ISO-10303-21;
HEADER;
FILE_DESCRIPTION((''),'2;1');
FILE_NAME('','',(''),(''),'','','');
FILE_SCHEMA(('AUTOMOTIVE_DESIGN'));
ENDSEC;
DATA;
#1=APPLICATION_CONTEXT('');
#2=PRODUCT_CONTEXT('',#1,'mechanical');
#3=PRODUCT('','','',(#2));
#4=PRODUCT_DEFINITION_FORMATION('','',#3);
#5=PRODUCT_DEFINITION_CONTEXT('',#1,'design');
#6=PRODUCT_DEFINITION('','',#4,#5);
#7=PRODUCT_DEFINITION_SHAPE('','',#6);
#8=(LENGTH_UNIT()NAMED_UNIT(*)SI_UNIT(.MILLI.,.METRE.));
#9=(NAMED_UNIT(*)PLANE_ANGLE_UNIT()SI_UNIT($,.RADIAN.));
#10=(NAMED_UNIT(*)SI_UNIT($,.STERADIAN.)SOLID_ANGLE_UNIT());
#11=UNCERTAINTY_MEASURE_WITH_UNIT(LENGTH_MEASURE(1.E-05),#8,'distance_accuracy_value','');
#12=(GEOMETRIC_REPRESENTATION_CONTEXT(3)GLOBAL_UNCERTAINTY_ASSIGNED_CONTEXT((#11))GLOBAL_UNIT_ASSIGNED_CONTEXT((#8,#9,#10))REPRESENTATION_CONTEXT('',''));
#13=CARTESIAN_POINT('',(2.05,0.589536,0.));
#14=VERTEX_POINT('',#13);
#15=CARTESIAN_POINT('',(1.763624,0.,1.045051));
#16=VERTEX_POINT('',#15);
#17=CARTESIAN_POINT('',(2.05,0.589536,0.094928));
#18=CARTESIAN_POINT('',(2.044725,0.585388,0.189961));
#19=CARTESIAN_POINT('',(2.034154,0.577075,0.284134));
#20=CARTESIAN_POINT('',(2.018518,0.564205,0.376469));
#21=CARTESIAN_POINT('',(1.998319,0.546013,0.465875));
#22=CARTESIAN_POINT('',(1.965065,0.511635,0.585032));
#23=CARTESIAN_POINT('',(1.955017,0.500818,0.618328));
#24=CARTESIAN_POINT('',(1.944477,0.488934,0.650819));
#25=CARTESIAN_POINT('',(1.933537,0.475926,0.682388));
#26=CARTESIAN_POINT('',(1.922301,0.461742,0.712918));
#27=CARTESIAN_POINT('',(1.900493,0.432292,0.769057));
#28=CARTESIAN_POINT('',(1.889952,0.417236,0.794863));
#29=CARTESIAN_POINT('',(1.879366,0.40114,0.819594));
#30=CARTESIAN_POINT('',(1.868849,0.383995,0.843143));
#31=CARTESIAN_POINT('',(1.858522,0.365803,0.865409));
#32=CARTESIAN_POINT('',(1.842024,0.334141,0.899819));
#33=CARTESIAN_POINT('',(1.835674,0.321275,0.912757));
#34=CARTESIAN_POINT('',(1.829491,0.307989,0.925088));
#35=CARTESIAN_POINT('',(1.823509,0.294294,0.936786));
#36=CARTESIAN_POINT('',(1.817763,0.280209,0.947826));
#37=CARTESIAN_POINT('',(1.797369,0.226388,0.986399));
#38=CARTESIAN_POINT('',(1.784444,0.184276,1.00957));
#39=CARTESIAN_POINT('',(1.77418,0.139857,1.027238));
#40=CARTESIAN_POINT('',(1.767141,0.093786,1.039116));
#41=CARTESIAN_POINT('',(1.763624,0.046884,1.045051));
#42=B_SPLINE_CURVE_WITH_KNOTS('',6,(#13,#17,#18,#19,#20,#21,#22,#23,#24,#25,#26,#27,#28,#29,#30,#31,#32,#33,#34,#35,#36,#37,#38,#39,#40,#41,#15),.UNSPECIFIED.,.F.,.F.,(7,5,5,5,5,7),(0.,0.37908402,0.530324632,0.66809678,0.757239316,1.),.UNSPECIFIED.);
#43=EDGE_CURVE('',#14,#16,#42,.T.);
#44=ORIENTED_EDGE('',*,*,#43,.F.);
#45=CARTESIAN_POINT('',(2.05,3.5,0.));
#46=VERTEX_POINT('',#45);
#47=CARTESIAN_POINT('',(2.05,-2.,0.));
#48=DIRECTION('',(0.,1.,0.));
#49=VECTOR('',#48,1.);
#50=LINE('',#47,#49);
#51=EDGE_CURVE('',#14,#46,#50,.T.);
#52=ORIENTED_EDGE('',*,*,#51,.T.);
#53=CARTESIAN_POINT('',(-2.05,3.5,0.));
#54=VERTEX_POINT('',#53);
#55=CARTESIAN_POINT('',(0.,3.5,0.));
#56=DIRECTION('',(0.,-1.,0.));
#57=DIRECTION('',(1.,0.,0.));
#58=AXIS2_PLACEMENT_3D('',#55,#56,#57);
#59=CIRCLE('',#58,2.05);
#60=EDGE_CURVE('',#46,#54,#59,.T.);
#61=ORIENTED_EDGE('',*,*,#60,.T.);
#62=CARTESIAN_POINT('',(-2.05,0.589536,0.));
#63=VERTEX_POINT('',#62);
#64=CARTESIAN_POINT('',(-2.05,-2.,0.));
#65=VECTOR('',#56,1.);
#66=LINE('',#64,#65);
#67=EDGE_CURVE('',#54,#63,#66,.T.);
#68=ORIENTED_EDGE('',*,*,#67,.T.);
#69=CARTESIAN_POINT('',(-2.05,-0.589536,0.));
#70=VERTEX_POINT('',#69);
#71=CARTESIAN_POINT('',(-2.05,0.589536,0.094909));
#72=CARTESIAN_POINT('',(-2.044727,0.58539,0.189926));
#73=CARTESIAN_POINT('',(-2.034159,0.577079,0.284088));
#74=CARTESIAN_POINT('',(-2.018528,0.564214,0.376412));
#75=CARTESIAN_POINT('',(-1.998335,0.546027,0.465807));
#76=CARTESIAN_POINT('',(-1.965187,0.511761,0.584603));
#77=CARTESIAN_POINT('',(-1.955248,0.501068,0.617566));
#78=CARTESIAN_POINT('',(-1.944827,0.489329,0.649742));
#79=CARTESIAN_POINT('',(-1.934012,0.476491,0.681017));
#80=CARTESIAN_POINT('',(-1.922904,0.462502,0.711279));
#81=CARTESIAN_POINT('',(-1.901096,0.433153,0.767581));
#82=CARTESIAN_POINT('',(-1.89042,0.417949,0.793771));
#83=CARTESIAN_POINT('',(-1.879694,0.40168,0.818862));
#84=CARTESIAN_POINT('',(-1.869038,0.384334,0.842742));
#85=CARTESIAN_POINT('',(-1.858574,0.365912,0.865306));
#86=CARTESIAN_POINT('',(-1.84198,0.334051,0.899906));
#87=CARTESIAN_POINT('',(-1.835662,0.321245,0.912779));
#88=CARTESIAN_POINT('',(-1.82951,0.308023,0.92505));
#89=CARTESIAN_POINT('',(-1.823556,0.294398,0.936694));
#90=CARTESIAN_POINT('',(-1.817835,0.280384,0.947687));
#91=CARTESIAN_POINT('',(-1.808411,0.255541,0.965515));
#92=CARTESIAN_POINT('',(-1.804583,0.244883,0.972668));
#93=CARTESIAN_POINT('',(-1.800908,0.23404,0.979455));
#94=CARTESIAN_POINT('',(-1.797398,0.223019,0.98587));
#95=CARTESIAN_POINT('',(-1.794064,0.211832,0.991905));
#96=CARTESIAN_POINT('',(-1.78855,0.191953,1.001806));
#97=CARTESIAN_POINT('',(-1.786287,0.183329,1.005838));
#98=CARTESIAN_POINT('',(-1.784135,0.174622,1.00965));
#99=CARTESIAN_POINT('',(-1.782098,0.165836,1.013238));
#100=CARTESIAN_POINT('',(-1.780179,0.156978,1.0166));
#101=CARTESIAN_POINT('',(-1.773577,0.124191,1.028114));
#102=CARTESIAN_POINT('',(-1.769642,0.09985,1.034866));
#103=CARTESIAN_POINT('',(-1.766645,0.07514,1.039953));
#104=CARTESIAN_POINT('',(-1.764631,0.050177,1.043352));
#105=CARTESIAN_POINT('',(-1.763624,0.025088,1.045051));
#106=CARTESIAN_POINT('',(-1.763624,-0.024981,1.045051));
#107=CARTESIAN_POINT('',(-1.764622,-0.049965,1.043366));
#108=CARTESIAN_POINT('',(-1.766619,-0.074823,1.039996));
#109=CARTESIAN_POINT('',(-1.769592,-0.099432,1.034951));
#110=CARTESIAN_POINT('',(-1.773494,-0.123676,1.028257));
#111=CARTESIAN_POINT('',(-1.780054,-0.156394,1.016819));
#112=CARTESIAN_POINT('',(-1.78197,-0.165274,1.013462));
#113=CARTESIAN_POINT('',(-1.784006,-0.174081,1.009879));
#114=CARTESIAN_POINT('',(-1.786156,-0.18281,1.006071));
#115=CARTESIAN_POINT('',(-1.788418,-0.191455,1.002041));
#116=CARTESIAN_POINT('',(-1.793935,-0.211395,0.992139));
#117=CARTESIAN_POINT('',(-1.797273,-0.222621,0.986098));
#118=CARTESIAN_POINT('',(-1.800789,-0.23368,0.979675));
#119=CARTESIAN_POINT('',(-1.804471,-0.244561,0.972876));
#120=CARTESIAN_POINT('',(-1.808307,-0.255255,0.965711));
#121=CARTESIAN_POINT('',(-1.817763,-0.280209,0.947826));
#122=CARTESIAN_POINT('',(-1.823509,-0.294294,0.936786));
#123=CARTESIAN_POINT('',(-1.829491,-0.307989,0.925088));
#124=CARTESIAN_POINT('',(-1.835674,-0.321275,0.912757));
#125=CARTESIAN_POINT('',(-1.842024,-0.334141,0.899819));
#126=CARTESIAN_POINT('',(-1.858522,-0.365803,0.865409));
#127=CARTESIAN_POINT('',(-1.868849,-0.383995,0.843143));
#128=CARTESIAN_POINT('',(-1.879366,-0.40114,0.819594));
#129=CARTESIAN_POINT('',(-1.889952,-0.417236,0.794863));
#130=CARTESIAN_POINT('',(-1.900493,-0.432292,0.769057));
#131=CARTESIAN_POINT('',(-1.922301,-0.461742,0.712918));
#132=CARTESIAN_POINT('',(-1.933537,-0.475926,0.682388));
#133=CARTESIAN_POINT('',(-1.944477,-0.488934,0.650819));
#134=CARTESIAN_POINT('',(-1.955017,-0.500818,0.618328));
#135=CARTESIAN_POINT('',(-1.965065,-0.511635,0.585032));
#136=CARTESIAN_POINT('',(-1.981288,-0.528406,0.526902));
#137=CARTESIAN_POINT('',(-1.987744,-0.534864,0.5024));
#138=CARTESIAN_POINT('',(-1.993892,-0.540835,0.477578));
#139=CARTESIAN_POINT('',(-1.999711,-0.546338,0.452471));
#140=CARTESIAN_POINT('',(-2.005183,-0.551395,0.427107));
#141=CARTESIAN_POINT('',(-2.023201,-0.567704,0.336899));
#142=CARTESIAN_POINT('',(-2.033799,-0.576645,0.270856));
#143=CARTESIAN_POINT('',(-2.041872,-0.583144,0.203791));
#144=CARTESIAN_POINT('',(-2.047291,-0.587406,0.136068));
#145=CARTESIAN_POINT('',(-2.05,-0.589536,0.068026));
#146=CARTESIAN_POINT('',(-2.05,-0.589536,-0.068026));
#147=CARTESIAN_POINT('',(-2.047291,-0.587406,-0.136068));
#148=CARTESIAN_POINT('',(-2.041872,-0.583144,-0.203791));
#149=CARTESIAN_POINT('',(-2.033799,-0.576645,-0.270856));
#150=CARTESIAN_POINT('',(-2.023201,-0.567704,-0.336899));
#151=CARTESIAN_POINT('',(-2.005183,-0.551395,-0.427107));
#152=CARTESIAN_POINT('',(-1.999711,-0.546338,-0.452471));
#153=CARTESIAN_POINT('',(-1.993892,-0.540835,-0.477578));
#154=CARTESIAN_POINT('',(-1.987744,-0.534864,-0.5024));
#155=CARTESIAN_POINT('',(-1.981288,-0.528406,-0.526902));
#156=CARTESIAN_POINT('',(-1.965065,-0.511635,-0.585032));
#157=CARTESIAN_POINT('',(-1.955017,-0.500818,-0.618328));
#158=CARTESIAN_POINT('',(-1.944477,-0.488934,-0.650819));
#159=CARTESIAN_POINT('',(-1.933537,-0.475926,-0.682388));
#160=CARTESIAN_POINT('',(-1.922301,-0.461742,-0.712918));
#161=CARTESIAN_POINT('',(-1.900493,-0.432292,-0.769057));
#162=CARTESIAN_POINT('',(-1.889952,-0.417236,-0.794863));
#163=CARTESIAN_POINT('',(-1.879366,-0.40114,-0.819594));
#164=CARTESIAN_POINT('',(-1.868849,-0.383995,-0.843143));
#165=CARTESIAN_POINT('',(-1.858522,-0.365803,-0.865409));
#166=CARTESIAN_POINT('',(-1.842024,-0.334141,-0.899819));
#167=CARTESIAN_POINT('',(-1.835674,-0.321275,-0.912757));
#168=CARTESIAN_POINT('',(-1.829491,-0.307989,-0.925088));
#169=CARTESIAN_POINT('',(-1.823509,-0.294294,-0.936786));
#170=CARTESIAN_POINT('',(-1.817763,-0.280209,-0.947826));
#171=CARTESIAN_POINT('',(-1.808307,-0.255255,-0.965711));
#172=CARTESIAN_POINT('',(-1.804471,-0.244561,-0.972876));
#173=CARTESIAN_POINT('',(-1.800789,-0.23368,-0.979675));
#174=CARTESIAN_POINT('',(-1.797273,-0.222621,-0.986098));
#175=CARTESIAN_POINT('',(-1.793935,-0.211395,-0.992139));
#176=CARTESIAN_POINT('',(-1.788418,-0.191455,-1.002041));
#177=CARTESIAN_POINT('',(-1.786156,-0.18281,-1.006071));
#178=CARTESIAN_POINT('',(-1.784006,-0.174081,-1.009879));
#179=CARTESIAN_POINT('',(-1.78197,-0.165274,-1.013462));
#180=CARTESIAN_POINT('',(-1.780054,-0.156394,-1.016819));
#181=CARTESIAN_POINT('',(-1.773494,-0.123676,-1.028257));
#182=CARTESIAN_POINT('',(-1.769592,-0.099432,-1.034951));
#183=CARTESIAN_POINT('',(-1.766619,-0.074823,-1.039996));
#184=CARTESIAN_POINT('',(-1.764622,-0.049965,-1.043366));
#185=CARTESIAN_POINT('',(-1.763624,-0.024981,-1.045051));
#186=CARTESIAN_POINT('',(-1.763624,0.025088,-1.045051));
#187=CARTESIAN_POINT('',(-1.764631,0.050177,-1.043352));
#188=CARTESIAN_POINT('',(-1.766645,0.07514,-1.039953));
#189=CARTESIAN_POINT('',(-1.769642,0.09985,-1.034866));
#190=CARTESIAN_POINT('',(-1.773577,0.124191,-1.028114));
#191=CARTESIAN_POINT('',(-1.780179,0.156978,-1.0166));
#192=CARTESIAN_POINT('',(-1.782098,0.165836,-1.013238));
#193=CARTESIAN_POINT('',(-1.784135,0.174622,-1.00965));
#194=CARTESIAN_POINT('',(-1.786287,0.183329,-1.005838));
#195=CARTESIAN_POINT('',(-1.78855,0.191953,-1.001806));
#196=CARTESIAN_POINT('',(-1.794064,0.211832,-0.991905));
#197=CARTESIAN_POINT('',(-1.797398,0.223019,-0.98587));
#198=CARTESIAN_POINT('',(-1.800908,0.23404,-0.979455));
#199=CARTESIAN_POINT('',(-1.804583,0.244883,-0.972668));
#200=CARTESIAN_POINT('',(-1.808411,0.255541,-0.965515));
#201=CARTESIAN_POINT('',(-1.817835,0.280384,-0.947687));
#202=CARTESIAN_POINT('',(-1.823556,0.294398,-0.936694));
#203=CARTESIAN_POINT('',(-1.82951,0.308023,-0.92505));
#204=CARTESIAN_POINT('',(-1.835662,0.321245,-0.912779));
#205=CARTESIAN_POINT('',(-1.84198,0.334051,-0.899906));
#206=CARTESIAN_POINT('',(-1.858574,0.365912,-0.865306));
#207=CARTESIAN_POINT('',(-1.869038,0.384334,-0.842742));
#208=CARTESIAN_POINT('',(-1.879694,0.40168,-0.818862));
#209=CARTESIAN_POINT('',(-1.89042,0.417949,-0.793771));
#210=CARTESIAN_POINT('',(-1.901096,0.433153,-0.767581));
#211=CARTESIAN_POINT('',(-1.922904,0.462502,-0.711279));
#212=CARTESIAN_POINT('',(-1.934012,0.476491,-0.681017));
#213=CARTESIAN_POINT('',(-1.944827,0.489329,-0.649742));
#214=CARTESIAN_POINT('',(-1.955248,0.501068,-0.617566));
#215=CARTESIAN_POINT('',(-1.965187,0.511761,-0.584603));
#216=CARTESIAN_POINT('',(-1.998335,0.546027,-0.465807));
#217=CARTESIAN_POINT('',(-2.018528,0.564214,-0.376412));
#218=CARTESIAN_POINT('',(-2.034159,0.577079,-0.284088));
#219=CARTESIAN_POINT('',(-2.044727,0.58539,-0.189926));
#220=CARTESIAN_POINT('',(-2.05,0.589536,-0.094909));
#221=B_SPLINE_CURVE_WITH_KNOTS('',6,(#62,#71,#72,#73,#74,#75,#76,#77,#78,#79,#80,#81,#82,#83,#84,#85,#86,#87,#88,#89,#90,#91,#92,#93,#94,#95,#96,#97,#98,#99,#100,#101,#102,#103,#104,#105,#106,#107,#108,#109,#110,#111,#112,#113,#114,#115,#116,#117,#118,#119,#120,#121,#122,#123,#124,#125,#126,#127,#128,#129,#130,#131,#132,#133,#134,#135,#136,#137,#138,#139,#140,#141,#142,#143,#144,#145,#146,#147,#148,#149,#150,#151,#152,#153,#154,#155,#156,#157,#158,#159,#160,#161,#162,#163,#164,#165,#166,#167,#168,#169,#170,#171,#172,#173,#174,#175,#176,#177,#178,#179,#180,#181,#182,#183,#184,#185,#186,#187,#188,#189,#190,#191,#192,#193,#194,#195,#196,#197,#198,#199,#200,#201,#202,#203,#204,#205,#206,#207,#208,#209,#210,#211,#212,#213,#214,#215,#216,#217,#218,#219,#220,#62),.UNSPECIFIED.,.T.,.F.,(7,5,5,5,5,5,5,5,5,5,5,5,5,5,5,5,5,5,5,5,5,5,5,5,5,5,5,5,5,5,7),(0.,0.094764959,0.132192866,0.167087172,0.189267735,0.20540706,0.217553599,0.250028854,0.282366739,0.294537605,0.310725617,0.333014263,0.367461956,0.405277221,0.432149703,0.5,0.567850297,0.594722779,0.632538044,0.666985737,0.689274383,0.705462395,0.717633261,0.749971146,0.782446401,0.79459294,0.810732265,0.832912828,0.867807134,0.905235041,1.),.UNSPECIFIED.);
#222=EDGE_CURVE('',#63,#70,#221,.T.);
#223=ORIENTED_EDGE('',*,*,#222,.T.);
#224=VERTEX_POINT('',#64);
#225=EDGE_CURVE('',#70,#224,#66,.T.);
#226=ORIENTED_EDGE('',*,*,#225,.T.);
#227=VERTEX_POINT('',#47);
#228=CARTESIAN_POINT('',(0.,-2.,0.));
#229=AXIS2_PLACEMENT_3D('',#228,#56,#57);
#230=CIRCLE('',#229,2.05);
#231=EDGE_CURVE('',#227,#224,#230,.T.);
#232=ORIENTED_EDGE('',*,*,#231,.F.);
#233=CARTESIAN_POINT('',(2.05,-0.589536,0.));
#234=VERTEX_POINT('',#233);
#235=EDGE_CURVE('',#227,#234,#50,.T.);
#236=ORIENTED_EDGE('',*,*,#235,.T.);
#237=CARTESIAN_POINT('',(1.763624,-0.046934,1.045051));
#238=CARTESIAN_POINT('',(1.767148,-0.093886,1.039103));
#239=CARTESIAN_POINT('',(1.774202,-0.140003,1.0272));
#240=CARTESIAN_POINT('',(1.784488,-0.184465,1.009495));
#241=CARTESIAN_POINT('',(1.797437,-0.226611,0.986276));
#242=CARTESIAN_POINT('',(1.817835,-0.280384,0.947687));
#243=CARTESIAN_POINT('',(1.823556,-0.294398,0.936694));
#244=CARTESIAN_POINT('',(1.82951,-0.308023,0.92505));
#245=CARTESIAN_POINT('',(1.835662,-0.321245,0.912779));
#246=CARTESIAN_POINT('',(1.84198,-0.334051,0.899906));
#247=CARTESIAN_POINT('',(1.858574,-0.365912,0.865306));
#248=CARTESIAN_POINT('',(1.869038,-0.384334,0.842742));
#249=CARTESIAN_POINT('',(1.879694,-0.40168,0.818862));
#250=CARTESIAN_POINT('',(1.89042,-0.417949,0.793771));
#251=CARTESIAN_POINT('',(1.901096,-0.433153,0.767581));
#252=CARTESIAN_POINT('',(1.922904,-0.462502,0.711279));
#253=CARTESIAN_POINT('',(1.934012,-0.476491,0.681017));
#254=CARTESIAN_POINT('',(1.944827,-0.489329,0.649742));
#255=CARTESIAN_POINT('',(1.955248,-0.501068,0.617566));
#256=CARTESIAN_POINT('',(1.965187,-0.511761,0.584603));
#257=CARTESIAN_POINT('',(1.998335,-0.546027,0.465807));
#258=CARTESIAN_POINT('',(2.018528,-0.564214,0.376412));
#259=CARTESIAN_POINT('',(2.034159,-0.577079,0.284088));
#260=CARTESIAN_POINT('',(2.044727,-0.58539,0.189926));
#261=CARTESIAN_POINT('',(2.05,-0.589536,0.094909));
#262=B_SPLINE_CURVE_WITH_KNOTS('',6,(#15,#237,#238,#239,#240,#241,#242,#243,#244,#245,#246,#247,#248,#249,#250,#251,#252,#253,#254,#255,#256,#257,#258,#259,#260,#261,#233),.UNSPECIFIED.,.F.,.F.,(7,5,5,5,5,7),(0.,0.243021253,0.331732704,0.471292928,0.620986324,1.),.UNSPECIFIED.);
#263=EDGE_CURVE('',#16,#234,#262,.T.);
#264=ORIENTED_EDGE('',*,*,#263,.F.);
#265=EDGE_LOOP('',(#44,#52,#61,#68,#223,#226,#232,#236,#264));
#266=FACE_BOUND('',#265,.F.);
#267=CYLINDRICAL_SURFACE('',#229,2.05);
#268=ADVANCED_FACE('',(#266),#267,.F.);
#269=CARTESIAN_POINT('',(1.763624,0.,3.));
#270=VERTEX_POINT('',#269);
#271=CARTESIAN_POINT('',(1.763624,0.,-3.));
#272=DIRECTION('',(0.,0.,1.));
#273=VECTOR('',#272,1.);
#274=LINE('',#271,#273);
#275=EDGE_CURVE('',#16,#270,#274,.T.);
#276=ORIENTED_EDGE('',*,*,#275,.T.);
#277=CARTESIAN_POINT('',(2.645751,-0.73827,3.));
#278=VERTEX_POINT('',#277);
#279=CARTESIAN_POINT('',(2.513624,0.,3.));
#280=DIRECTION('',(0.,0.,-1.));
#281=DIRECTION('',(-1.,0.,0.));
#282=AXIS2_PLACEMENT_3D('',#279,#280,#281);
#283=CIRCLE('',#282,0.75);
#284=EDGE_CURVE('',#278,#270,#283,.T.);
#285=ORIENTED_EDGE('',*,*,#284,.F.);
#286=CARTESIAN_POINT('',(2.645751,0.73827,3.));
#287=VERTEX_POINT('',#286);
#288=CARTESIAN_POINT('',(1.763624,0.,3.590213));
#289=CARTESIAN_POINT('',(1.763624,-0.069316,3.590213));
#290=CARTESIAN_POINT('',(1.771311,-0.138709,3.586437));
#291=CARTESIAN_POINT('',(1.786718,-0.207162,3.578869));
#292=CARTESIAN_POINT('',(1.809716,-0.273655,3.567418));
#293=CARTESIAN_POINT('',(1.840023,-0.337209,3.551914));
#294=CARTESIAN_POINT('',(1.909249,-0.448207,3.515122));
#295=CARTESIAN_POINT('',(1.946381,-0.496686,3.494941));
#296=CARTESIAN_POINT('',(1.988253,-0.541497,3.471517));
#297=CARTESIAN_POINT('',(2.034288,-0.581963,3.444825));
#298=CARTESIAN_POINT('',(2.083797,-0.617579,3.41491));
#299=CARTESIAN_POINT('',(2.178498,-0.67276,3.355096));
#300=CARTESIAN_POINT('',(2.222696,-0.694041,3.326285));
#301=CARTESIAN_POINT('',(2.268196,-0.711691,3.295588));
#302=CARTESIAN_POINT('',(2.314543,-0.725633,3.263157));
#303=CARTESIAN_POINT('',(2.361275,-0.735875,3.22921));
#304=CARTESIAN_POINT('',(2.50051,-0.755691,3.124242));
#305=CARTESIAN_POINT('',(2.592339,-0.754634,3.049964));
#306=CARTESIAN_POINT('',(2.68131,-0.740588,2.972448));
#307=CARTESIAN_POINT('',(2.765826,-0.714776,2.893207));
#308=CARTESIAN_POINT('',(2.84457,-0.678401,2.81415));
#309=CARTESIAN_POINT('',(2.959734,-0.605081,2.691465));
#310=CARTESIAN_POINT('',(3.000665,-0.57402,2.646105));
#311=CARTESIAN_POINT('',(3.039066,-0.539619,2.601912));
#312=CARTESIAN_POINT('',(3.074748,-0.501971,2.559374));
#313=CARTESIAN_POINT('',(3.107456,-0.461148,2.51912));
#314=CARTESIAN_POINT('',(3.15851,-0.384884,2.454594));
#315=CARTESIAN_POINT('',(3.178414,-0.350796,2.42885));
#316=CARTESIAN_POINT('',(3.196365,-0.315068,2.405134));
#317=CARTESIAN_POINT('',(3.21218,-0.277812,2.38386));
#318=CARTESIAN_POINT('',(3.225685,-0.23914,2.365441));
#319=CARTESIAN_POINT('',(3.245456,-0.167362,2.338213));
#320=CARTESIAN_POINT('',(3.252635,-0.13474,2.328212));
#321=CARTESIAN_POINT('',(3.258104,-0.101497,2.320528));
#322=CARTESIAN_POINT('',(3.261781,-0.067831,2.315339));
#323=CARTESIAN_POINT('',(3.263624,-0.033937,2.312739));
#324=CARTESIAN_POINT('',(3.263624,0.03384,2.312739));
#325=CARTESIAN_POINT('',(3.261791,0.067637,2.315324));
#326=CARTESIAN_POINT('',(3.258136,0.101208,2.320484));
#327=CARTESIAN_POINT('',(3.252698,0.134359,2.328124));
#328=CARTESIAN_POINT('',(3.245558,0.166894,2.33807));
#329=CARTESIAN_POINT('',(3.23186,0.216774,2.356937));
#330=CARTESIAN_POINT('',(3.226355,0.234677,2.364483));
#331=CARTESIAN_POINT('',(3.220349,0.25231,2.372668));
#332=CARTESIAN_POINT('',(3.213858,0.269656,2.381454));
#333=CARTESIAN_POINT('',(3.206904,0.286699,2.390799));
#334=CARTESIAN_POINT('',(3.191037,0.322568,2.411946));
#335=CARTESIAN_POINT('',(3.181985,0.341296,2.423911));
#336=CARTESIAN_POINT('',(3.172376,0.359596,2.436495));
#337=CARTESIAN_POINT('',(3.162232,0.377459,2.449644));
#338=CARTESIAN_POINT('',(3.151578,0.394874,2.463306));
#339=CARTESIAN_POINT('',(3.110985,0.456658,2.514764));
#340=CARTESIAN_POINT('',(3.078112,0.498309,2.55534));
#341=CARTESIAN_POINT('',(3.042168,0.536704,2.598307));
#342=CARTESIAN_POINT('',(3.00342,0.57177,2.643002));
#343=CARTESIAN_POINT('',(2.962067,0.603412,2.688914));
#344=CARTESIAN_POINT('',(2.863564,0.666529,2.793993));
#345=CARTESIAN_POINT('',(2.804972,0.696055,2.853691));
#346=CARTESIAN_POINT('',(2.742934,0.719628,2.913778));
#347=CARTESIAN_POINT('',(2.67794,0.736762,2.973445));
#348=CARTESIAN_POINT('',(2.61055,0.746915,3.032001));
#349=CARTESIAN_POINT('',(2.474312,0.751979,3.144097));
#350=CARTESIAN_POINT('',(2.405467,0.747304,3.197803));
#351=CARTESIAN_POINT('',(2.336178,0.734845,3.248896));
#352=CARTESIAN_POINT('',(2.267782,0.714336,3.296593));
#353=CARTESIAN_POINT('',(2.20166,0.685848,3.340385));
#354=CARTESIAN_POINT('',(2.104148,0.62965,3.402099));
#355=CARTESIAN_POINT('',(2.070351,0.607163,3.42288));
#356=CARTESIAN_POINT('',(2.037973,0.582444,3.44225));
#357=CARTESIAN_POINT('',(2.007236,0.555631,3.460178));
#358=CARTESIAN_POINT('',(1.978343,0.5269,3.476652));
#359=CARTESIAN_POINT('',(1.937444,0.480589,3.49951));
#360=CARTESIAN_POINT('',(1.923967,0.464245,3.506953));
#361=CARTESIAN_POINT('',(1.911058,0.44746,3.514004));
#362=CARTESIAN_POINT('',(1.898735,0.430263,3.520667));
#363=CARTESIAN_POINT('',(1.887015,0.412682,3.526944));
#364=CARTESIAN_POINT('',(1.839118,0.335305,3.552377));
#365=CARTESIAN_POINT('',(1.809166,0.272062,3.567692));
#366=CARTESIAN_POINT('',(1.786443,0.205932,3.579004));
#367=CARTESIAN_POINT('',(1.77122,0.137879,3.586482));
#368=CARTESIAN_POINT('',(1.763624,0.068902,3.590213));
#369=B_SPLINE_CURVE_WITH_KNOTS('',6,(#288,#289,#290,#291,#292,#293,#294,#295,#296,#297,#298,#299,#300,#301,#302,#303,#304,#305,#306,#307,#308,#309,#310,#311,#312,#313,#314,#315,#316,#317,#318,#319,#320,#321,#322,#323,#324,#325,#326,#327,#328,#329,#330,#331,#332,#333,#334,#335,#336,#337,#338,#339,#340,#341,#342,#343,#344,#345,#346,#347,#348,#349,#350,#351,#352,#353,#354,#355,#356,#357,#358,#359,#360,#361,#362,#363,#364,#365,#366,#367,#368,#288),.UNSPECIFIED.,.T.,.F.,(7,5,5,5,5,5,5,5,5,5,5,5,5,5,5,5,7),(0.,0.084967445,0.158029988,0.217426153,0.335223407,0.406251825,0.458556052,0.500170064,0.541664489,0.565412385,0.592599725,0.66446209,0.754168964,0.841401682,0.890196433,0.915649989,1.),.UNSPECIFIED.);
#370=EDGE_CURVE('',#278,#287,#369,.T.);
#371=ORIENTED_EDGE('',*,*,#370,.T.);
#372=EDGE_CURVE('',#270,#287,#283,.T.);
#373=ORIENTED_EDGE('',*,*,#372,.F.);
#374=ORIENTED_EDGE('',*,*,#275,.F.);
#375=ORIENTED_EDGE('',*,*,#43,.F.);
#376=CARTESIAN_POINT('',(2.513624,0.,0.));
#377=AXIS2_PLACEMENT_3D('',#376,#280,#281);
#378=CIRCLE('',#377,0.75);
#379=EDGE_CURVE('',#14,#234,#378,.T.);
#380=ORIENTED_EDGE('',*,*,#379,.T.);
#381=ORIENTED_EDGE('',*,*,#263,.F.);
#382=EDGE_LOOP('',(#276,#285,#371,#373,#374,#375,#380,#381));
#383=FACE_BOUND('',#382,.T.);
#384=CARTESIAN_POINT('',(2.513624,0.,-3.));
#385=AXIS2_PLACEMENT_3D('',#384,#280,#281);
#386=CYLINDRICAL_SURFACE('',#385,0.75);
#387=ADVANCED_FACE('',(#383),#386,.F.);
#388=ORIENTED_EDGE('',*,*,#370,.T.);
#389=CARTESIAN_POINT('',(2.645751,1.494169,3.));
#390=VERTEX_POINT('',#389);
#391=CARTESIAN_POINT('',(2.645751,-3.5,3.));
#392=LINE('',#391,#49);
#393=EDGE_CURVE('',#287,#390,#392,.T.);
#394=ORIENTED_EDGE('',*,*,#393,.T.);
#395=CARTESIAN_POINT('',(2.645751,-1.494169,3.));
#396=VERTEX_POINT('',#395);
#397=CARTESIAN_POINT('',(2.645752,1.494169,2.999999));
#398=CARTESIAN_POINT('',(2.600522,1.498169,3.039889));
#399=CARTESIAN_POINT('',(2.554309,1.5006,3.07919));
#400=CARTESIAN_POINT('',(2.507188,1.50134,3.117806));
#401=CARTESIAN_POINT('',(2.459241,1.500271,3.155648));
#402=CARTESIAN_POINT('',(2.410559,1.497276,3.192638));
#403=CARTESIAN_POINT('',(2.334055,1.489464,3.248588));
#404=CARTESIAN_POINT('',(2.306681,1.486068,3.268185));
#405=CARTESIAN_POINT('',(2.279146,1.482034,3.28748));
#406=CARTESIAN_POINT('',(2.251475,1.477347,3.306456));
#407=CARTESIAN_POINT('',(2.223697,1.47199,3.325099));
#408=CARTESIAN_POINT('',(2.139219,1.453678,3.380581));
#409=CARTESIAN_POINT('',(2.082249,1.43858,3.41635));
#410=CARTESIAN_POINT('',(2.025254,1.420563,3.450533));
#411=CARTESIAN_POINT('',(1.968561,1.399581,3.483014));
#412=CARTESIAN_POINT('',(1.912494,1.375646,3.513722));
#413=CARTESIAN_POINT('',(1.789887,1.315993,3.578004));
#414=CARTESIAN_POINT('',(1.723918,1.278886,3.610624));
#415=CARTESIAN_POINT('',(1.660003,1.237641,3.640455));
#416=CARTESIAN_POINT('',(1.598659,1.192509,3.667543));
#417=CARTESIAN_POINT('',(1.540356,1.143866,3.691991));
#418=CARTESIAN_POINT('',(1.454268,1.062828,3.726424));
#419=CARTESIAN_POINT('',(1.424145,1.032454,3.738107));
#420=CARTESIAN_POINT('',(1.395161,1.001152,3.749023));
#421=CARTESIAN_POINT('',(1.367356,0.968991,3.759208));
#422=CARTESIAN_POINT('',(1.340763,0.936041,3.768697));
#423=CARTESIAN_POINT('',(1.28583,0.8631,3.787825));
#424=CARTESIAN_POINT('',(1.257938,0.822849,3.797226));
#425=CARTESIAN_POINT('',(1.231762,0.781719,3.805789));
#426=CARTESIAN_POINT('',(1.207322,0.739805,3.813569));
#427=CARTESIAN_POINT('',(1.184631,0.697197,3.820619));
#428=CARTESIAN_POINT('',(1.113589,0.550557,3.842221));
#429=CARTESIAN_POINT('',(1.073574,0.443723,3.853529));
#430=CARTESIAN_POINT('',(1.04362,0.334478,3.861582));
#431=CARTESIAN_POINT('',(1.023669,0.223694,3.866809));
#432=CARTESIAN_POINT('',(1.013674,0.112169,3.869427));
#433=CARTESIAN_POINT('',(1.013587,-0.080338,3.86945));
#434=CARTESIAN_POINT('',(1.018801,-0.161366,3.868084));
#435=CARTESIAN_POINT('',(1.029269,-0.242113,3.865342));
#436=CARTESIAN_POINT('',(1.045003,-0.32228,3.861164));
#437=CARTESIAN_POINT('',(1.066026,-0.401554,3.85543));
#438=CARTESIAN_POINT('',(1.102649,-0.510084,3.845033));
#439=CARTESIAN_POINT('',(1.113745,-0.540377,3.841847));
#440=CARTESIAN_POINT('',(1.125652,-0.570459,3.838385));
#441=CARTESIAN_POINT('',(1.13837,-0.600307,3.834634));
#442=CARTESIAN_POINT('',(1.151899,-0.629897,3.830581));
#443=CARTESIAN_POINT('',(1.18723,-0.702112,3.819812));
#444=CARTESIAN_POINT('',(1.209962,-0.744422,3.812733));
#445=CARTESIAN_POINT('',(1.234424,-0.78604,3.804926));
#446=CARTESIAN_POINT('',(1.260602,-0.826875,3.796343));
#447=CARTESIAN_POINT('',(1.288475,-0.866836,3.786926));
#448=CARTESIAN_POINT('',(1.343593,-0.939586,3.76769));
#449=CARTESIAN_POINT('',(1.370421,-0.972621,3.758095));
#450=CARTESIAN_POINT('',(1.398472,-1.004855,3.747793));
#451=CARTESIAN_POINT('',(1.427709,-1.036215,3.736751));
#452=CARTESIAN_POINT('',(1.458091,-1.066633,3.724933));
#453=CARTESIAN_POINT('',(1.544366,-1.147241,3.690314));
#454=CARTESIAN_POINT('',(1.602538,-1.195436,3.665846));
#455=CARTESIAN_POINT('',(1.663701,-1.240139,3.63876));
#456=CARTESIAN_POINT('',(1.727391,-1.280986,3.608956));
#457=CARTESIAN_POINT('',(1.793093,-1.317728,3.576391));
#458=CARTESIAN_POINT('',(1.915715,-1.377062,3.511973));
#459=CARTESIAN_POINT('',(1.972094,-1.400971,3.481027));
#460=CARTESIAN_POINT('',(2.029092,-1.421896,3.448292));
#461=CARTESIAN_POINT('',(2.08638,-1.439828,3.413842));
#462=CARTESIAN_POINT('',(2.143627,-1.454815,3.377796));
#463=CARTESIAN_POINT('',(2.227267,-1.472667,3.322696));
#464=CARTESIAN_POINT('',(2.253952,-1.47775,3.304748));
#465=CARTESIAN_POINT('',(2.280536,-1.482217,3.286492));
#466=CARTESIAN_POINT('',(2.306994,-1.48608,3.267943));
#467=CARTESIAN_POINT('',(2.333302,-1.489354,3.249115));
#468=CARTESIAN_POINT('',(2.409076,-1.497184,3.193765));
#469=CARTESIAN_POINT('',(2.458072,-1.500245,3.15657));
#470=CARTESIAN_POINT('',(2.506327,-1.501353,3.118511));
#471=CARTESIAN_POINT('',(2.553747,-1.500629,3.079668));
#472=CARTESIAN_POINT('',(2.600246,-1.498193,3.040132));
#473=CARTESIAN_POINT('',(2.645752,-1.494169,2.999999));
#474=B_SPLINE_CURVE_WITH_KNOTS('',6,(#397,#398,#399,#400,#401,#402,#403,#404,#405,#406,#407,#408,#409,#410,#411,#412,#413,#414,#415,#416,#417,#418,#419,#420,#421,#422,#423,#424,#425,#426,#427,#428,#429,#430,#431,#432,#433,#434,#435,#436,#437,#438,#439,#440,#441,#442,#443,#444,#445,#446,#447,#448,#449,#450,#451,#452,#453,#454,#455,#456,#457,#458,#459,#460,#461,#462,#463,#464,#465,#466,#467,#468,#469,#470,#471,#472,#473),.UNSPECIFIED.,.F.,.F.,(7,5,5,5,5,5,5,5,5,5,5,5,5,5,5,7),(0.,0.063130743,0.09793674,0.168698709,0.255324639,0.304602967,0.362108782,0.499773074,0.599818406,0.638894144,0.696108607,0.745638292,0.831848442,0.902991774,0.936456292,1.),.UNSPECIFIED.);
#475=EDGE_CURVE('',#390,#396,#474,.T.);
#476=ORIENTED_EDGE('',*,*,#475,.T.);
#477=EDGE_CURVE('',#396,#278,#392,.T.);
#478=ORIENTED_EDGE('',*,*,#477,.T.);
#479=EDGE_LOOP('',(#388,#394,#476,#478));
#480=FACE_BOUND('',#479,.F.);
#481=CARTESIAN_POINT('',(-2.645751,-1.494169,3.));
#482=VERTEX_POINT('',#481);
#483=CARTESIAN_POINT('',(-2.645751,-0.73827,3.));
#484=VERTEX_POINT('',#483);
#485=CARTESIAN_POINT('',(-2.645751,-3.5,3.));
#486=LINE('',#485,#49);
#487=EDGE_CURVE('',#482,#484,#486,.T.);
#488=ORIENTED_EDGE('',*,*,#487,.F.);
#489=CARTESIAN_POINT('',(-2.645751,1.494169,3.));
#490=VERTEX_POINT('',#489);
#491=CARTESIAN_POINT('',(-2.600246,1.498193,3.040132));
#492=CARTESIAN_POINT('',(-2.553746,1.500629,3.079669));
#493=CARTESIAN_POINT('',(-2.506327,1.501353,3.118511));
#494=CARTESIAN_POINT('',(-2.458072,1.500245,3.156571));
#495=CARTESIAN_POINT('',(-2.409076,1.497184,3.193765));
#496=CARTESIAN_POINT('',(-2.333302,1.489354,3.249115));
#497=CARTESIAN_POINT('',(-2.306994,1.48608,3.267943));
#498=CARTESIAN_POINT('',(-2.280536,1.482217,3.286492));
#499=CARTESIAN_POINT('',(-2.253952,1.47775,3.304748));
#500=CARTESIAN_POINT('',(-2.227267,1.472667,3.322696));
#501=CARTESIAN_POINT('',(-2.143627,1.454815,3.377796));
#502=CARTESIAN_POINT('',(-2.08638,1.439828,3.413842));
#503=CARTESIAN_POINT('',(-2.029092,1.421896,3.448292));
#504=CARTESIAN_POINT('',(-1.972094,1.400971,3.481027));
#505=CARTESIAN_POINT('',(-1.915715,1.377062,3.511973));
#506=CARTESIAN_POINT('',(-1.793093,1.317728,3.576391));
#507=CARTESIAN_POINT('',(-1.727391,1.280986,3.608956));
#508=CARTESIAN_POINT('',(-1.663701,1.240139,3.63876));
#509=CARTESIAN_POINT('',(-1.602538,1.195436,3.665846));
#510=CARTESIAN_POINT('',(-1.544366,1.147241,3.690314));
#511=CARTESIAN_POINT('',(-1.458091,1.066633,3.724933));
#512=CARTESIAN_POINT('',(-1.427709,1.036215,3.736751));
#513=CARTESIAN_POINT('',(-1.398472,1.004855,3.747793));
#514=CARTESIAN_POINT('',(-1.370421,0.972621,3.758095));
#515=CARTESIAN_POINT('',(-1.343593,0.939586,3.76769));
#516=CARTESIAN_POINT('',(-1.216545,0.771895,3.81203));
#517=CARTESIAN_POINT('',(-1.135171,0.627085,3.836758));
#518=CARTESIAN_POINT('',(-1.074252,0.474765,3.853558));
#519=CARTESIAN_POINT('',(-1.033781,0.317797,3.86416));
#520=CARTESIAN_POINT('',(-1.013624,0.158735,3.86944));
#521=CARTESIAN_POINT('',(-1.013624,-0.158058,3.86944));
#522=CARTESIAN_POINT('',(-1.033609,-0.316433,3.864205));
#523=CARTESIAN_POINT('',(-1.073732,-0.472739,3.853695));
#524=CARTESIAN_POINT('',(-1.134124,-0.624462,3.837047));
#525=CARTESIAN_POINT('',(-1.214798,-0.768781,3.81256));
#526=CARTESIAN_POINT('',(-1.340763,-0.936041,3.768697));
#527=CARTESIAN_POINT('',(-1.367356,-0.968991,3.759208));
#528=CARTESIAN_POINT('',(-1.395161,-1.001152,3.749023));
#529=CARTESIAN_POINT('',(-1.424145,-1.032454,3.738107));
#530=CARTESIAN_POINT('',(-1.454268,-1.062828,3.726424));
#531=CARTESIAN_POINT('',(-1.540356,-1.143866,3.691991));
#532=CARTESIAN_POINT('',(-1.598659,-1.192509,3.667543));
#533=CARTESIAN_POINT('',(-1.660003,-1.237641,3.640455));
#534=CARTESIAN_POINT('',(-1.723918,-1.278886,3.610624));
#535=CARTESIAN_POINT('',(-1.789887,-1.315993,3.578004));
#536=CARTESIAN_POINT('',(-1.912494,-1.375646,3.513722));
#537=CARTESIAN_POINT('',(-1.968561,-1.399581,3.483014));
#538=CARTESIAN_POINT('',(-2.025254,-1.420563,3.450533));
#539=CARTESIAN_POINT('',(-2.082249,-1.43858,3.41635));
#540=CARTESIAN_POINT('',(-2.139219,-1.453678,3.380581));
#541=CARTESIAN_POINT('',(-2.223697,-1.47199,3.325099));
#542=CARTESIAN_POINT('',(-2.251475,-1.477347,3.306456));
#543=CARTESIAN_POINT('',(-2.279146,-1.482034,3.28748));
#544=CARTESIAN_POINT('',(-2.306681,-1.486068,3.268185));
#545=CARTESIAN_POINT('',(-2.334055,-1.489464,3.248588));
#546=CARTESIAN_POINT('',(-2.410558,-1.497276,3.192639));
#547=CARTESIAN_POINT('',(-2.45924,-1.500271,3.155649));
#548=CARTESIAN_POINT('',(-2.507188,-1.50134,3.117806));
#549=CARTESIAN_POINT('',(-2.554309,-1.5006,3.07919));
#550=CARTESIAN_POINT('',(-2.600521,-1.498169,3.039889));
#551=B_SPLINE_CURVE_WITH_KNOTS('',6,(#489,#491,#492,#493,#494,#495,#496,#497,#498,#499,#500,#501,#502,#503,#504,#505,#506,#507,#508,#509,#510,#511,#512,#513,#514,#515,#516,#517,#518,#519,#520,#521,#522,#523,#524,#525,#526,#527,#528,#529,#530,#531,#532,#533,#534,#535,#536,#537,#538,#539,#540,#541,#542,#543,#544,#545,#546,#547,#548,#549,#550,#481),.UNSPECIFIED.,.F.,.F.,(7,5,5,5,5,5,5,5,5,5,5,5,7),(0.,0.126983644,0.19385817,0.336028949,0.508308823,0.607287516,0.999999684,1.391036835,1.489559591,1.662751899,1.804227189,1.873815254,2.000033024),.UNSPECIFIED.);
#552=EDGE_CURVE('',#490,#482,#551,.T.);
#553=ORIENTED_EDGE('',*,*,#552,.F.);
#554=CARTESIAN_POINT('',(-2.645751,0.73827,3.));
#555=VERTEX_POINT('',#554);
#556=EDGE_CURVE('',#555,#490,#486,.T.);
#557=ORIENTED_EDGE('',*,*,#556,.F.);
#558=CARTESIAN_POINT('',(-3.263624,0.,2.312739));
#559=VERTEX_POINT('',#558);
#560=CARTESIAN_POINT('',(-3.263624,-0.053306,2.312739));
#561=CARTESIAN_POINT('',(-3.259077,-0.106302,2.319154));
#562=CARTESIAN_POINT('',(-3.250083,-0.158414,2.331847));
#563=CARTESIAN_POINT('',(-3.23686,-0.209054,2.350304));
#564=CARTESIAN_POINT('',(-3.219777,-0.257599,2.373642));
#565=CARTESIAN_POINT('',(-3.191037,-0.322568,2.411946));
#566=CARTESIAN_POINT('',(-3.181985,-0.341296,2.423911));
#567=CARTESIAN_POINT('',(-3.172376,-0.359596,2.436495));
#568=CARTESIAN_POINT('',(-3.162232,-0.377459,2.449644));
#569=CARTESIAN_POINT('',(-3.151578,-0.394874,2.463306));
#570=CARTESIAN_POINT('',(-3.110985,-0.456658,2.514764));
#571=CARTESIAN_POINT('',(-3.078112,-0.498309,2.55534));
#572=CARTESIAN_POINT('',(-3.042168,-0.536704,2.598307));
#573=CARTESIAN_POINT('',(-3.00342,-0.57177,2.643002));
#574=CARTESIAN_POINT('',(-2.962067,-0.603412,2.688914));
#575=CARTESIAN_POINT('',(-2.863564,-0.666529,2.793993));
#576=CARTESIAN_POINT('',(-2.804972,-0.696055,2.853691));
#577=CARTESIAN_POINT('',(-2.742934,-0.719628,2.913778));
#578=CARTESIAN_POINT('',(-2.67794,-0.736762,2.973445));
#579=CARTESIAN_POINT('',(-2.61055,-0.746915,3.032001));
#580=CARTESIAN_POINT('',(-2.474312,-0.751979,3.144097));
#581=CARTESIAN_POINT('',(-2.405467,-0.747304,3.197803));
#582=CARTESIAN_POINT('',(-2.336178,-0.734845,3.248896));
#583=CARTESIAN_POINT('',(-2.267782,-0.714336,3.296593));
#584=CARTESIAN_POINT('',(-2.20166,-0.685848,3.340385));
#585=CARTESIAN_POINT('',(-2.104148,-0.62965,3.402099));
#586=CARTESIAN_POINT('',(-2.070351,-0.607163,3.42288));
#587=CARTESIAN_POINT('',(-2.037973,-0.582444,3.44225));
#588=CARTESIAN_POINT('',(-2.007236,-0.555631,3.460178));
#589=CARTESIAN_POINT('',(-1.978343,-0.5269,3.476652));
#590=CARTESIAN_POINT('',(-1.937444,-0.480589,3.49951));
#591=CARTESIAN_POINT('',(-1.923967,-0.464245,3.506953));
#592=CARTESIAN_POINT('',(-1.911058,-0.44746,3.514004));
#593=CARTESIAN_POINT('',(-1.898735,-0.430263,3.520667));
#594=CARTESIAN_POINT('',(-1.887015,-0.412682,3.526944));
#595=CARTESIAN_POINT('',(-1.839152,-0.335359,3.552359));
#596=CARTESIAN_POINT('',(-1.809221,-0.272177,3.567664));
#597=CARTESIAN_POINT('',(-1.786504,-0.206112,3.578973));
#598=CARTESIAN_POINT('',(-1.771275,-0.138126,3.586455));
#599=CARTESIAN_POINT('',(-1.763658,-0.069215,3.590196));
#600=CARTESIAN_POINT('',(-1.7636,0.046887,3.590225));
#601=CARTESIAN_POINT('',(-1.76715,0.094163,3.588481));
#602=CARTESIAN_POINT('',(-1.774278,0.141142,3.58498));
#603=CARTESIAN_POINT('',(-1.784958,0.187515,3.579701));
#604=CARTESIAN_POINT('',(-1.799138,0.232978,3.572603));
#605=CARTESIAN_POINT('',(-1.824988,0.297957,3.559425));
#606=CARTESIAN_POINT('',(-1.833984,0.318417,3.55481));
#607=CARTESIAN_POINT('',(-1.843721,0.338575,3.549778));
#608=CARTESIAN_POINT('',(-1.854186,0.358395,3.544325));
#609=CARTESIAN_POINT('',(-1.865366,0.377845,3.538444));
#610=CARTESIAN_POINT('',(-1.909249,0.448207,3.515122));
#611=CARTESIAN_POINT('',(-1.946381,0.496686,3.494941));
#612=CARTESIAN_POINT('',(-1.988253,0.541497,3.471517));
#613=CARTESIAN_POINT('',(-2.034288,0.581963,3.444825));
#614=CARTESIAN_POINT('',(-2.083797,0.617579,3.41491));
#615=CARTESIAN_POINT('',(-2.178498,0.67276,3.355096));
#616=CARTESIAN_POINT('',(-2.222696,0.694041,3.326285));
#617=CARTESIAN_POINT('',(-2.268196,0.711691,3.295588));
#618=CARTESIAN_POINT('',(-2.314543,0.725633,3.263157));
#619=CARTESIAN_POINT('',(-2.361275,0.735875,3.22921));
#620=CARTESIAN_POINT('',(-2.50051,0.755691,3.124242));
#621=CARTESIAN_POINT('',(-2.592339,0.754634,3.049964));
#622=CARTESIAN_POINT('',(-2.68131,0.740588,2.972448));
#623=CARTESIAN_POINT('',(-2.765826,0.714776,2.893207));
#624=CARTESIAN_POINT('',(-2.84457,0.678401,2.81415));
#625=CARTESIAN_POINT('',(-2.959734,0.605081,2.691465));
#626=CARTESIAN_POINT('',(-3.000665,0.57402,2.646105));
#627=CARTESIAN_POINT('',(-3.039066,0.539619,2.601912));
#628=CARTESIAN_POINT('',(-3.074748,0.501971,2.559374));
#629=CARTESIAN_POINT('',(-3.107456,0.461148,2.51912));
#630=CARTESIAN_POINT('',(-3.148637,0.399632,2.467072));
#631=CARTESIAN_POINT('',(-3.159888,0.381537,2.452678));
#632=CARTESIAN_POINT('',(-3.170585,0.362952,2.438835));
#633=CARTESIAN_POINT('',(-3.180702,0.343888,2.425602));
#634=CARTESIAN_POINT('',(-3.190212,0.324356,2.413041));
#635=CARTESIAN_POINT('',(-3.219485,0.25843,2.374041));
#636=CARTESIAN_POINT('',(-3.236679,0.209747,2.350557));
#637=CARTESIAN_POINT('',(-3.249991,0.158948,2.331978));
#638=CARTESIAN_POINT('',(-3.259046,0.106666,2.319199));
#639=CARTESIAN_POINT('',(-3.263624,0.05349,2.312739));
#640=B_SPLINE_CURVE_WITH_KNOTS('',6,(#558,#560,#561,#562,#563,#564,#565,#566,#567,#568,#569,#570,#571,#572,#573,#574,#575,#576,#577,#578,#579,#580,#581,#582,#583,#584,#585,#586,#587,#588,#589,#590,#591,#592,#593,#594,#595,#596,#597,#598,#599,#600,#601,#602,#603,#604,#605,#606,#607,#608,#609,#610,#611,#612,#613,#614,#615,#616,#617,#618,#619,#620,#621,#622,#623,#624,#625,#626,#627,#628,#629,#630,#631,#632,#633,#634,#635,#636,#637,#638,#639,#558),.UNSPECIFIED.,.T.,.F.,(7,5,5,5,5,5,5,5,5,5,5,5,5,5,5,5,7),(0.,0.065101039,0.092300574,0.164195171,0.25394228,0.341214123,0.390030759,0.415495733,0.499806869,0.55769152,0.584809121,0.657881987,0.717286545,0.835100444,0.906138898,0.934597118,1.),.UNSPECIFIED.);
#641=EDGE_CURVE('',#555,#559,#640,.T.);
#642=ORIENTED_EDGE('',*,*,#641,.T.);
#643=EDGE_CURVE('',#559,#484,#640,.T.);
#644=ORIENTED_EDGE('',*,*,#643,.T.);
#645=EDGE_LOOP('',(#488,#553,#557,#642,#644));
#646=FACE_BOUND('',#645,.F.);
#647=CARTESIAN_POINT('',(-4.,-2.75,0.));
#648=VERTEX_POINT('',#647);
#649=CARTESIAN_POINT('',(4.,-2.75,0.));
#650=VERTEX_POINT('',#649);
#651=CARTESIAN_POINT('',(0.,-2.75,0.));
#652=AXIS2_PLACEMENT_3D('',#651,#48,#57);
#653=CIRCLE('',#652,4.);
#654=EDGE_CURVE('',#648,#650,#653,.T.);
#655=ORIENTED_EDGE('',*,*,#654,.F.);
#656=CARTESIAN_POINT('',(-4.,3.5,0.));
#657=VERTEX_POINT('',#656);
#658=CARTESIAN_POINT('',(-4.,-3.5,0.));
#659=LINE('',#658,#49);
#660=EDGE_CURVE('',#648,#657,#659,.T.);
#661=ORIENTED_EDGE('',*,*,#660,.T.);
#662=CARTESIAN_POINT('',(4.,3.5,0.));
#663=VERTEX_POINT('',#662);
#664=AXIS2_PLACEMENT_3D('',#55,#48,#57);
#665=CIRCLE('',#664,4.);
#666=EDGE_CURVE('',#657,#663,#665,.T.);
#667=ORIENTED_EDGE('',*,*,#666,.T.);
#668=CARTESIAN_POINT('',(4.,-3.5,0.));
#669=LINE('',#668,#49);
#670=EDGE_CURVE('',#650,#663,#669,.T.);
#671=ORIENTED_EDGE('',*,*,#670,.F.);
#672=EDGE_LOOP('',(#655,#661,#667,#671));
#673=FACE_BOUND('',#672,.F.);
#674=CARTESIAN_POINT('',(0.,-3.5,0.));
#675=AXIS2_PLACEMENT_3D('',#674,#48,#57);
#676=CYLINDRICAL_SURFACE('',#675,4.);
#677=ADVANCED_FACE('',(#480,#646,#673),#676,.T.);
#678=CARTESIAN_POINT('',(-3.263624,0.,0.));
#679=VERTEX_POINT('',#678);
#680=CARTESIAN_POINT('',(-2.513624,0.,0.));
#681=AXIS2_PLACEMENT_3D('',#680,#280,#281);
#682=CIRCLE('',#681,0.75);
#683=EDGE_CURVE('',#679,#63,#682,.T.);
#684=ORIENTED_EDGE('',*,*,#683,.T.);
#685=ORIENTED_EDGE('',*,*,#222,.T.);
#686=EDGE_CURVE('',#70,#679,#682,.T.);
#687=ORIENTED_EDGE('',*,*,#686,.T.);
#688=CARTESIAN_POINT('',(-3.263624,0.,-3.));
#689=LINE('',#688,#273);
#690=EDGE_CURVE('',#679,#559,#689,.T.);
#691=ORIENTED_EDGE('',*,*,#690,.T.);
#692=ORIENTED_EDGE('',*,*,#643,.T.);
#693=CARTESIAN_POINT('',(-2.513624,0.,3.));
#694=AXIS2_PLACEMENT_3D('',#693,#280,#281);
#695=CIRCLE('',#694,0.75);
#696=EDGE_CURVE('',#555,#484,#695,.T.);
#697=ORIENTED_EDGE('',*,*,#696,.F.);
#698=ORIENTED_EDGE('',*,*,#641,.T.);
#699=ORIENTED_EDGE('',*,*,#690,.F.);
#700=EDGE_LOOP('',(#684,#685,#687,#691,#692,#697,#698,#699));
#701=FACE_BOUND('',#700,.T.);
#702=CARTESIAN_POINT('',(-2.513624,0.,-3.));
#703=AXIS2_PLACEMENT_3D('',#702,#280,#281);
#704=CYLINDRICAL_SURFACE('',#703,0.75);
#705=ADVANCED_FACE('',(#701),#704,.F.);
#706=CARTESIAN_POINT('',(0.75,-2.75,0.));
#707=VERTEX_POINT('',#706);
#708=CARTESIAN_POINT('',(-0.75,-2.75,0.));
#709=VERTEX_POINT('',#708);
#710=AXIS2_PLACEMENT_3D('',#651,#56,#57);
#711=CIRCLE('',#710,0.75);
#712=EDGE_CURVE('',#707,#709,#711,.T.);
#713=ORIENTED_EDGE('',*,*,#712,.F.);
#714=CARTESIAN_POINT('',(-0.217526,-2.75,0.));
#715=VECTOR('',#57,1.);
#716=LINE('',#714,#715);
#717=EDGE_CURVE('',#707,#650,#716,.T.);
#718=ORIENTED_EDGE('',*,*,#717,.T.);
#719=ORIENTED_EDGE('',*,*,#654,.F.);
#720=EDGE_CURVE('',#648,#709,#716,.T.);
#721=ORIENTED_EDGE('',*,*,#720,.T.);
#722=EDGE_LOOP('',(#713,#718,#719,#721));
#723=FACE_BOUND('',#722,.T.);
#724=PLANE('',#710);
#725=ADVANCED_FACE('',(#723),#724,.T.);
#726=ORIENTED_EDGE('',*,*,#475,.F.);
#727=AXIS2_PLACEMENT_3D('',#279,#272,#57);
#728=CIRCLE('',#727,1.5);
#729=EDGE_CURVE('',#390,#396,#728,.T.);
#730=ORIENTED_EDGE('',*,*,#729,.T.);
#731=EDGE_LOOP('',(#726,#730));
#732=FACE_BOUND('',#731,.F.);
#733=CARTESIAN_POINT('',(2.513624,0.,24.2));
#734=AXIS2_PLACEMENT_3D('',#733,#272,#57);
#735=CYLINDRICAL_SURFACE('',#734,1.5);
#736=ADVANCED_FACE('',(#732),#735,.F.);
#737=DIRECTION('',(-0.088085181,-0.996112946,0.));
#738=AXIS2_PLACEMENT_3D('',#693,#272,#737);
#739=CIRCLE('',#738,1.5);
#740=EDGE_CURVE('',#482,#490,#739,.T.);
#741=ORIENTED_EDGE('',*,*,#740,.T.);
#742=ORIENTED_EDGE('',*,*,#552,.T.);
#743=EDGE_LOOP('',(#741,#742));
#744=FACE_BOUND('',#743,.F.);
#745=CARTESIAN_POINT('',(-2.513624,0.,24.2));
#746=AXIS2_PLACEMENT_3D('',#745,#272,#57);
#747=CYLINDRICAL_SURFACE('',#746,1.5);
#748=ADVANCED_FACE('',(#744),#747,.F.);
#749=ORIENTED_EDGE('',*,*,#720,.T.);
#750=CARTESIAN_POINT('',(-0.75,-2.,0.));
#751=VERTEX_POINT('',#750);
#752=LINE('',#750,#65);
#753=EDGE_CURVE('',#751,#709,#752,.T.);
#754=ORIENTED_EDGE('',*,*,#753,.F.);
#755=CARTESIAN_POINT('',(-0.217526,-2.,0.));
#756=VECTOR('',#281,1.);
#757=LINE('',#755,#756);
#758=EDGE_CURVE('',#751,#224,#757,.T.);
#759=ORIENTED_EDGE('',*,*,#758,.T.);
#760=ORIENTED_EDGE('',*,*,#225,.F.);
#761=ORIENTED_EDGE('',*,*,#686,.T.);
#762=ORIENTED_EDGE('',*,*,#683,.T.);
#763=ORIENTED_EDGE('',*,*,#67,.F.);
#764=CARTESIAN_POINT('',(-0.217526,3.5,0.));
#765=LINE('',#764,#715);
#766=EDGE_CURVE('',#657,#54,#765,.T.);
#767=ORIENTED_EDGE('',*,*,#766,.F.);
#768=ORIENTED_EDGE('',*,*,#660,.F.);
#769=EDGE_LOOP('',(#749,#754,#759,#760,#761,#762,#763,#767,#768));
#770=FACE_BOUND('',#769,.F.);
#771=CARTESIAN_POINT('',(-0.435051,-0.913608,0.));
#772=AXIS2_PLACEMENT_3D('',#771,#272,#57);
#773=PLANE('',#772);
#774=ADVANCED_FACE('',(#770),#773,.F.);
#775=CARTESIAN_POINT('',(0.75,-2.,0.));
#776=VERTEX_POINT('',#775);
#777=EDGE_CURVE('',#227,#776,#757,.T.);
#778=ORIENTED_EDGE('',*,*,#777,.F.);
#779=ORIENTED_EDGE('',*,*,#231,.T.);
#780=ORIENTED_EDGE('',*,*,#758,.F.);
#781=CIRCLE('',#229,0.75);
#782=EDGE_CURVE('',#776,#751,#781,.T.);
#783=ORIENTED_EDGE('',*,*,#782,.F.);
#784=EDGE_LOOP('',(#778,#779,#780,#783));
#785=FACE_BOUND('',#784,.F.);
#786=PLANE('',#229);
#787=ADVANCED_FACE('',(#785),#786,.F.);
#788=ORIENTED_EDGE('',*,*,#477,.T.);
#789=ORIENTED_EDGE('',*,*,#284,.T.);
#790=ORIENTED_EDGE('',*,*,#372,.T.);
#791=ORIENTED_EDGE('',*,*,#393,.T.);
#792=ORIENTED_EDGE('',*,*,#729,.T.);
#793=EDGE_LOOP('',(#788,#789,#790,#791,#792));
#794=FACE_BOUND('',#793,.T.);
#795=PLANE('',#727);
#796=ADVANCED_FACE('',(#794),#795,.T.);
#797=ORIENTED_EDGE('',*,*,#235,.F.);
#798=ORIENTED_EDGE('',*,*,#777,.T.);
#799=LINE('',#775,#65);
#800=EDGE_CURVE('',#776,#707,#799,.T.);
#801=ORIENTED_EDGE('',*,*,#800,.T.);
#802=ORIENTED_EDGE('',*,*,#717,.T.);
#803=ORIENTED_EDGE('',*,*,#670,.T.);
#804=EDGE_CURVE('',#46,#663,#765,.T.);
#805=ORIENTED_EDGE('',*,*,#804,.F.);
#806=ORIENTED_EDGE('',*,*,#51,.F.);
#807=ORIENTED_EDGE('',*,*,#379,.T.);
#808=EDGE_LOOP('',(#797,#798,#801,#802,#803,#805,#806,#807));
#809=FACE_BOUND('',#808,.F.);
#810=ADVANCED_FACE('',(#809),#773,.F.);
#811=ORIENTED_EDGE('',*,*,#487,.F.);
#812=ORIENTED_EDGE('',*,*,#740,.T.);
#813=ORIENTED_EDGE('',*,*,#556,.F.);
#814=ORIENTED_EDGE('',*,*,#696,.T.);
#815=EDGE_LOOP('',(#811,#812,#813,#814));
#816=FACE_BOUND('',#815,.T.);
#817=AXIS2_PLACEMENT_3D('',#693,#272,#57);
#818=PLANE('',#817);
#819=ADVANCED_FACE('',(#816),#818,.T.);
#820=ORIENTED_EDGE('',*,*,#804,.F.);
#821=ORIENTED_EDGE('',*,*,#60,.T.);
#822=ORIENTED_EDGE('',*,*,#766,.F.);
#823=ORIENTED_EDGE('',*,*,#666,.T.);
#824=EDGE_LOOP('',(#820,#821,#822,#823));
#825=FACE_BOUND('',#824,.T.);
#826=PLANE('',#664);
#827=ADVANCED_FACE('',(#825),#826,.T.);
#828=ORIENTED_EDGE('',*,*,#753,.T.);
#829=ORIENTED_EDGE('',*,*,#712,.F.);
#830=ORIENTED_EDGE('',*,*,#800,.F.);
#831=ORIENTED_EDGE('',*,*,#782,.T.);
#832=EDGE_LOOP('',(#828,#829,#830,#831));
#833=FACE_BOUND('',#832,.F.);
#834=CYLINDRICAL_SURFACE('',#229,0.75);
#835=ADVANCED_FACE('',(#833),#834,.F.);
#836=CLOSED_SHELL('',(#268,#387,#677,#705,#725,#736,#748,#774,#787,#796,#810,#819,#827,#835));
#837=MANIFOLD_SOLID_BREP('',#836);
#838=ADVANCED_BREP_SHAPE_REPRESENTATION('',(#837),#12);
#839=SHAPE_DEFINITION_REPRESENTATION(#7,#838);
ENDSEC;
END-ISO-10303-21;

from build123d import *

# Parameters (mm, degrees)
BOSS_EXTRUDE2_START     = 5.5
SKETCH8_R               = 2
BOSS_EXTRUDE2_DEPTH     = 5.5
SKETCH9_R               = 2.05
CUT_EXTRUDE3_DEPTH      = 5.5
CUT_EXTRUDE4_DEPTH      = 5.5
CUT_EXTRUDE4_DEPTH_BACK = 3
SKETCH10_R              = 0.75
SKETCH12_R              = 2.032145481
CUT_EXTRUDE5_DEPTH      = 1.2
CUT_EXTRUDE11_START     = -3
SKETCH15_R              = 1.5
CUT_EXTRUDE11_DEPTH     = 21.2
CUT_EXTRUDE12_START     = 24.2
SKETCH16_R              = 1.5
CUT_EXTRUDE12_DEPTH     = 21.2
SKETCH17_W              = 12.094428853
SKETCH17_H              = 12.59473796
CUT_EXTRUDE14_DEPTH     = 21.2
SKETCH18_R              = 5.596164195
CUT_EXTRUDE15_DEPTH     = 0.75


with BuildPart() as part:
    # Sketch1 → Revolve2 (revolve)
    with BuildSketch(Plane.XY):
        Polygon((-0.75, -3.5), (-0.75, -2), (-2, -2), (-2, 3.5), (-4, 3.5), (-4, -3.5), align=None)
        Polygon((2, -2), (0.75, -2), (0.75, -3.5), (4, -3.5), (4, 3.5), (2, 3.5), align=None)
    revolve(axis=Axis((0, 0, 0), (0, -1, 0)))

    # Sketch8 → Boss-Extrude2 (add)
    with BuildSketch(Plane(origin=(0, -2, 0), x_dir=(1, 0, 0), z_dir=(0, 1, 0)).offset(BOSS_EXTRUDE2_START)):
        Circle(SKETCH8_R)
    extrude(amount=-BOSS_EXTRUDE2_DEPTH)

    # Sketch9 → Cut-Extrude3 (cut)
    with BuildSketch(Plane.XZ.offset(2)):
        Circle(SKETCH9_R)
    extrude(amount=-CUT_EXTRUDE3_DEPTH, mode=Mode.SUBTRACT)

    # Sketch10 → Cut-Extrude4 (cut, two sides: drawn at the far end of the back side and taken through both)
    with BuildSketch(Plane.XY.offset(-CUT_EXTRUDE4_DEPTH_BACK)):
        with Locations(Location((2.513623539, 0, 0), (0, 0, 180))):
            Circle(SKETCH10_R)
        with Locations(Location((-2.513623539, 0, 0), (0, 0, 180))):
            Circle(SKETCH10_R)
    extrude(amount=CUT_EXTRUDE4_DEPTH + CUT_EXTRUDE4_DEPTH_BACK, mode=Mode.SUBTRACT)

    # Sketch12 → Cut-Extrude5 (cut)
    with BuildSketch(Plane(origin=(0, -2, 0), x_dir=(1, 0, 0), z_dir=(0, 1, 0))):
        Circle(SKETCH12_R)
    extrude(amount=CUT_EXTRUDE5_DEPTH, mode=Mode.SUBTRACT)

    # Sketch15 → Cut-Extrude11 (cut)
    with BuildSketch(Plane.XY.offset(CUT_EXTRUDE11_START)):
        with Locations((2.513623539, 0)):
            Circle(SKETCH15_R)
        with Locations((-2.513623539, 0)):
            Circle(SKETCH15_R)
    extrude(amount=-CUT_EXTRUDE11_DEPTH, mode=Mode.SUBTRACT)

    # Sketch16 → Cut-Extrude12 (cut)
    with BuildSketch(Plane.XY.offset(CUT_EXTRUDE12_START)):
        with Locations((2.513623539, 0)):
            Circle(SKETCH16_R)
        with Locations((-2.513623539, 0)):
            Circle(SKETCH16_R)
    extrude(amount=-CUT_EXTRUDE12_DEPTH, mode=Mode.SUBTRACT)

    # Sketch17 → Cut-Extrude14 (cut)
    with BuildSketch(Plane.XY):
        with Locations((-0.435051398, -0.913607935)):
            Rectangle(SKETCH17_W, SKETCH17_H)
    extrude(amount=-CUT_EXTRUDE14_DEPTH, mode=Mode.SUBTRACT)

    # Sketch18 → Cut-Extrude15 (cut)
    with BuildSketch(Plane.XZ.offset(3.5)):
        Circle(SKETCH18_R)
    extrude(amount=-CUT_EXTRUDE15_DEPTH, mode=Mode.SUBTRACT)


solid = part.part
